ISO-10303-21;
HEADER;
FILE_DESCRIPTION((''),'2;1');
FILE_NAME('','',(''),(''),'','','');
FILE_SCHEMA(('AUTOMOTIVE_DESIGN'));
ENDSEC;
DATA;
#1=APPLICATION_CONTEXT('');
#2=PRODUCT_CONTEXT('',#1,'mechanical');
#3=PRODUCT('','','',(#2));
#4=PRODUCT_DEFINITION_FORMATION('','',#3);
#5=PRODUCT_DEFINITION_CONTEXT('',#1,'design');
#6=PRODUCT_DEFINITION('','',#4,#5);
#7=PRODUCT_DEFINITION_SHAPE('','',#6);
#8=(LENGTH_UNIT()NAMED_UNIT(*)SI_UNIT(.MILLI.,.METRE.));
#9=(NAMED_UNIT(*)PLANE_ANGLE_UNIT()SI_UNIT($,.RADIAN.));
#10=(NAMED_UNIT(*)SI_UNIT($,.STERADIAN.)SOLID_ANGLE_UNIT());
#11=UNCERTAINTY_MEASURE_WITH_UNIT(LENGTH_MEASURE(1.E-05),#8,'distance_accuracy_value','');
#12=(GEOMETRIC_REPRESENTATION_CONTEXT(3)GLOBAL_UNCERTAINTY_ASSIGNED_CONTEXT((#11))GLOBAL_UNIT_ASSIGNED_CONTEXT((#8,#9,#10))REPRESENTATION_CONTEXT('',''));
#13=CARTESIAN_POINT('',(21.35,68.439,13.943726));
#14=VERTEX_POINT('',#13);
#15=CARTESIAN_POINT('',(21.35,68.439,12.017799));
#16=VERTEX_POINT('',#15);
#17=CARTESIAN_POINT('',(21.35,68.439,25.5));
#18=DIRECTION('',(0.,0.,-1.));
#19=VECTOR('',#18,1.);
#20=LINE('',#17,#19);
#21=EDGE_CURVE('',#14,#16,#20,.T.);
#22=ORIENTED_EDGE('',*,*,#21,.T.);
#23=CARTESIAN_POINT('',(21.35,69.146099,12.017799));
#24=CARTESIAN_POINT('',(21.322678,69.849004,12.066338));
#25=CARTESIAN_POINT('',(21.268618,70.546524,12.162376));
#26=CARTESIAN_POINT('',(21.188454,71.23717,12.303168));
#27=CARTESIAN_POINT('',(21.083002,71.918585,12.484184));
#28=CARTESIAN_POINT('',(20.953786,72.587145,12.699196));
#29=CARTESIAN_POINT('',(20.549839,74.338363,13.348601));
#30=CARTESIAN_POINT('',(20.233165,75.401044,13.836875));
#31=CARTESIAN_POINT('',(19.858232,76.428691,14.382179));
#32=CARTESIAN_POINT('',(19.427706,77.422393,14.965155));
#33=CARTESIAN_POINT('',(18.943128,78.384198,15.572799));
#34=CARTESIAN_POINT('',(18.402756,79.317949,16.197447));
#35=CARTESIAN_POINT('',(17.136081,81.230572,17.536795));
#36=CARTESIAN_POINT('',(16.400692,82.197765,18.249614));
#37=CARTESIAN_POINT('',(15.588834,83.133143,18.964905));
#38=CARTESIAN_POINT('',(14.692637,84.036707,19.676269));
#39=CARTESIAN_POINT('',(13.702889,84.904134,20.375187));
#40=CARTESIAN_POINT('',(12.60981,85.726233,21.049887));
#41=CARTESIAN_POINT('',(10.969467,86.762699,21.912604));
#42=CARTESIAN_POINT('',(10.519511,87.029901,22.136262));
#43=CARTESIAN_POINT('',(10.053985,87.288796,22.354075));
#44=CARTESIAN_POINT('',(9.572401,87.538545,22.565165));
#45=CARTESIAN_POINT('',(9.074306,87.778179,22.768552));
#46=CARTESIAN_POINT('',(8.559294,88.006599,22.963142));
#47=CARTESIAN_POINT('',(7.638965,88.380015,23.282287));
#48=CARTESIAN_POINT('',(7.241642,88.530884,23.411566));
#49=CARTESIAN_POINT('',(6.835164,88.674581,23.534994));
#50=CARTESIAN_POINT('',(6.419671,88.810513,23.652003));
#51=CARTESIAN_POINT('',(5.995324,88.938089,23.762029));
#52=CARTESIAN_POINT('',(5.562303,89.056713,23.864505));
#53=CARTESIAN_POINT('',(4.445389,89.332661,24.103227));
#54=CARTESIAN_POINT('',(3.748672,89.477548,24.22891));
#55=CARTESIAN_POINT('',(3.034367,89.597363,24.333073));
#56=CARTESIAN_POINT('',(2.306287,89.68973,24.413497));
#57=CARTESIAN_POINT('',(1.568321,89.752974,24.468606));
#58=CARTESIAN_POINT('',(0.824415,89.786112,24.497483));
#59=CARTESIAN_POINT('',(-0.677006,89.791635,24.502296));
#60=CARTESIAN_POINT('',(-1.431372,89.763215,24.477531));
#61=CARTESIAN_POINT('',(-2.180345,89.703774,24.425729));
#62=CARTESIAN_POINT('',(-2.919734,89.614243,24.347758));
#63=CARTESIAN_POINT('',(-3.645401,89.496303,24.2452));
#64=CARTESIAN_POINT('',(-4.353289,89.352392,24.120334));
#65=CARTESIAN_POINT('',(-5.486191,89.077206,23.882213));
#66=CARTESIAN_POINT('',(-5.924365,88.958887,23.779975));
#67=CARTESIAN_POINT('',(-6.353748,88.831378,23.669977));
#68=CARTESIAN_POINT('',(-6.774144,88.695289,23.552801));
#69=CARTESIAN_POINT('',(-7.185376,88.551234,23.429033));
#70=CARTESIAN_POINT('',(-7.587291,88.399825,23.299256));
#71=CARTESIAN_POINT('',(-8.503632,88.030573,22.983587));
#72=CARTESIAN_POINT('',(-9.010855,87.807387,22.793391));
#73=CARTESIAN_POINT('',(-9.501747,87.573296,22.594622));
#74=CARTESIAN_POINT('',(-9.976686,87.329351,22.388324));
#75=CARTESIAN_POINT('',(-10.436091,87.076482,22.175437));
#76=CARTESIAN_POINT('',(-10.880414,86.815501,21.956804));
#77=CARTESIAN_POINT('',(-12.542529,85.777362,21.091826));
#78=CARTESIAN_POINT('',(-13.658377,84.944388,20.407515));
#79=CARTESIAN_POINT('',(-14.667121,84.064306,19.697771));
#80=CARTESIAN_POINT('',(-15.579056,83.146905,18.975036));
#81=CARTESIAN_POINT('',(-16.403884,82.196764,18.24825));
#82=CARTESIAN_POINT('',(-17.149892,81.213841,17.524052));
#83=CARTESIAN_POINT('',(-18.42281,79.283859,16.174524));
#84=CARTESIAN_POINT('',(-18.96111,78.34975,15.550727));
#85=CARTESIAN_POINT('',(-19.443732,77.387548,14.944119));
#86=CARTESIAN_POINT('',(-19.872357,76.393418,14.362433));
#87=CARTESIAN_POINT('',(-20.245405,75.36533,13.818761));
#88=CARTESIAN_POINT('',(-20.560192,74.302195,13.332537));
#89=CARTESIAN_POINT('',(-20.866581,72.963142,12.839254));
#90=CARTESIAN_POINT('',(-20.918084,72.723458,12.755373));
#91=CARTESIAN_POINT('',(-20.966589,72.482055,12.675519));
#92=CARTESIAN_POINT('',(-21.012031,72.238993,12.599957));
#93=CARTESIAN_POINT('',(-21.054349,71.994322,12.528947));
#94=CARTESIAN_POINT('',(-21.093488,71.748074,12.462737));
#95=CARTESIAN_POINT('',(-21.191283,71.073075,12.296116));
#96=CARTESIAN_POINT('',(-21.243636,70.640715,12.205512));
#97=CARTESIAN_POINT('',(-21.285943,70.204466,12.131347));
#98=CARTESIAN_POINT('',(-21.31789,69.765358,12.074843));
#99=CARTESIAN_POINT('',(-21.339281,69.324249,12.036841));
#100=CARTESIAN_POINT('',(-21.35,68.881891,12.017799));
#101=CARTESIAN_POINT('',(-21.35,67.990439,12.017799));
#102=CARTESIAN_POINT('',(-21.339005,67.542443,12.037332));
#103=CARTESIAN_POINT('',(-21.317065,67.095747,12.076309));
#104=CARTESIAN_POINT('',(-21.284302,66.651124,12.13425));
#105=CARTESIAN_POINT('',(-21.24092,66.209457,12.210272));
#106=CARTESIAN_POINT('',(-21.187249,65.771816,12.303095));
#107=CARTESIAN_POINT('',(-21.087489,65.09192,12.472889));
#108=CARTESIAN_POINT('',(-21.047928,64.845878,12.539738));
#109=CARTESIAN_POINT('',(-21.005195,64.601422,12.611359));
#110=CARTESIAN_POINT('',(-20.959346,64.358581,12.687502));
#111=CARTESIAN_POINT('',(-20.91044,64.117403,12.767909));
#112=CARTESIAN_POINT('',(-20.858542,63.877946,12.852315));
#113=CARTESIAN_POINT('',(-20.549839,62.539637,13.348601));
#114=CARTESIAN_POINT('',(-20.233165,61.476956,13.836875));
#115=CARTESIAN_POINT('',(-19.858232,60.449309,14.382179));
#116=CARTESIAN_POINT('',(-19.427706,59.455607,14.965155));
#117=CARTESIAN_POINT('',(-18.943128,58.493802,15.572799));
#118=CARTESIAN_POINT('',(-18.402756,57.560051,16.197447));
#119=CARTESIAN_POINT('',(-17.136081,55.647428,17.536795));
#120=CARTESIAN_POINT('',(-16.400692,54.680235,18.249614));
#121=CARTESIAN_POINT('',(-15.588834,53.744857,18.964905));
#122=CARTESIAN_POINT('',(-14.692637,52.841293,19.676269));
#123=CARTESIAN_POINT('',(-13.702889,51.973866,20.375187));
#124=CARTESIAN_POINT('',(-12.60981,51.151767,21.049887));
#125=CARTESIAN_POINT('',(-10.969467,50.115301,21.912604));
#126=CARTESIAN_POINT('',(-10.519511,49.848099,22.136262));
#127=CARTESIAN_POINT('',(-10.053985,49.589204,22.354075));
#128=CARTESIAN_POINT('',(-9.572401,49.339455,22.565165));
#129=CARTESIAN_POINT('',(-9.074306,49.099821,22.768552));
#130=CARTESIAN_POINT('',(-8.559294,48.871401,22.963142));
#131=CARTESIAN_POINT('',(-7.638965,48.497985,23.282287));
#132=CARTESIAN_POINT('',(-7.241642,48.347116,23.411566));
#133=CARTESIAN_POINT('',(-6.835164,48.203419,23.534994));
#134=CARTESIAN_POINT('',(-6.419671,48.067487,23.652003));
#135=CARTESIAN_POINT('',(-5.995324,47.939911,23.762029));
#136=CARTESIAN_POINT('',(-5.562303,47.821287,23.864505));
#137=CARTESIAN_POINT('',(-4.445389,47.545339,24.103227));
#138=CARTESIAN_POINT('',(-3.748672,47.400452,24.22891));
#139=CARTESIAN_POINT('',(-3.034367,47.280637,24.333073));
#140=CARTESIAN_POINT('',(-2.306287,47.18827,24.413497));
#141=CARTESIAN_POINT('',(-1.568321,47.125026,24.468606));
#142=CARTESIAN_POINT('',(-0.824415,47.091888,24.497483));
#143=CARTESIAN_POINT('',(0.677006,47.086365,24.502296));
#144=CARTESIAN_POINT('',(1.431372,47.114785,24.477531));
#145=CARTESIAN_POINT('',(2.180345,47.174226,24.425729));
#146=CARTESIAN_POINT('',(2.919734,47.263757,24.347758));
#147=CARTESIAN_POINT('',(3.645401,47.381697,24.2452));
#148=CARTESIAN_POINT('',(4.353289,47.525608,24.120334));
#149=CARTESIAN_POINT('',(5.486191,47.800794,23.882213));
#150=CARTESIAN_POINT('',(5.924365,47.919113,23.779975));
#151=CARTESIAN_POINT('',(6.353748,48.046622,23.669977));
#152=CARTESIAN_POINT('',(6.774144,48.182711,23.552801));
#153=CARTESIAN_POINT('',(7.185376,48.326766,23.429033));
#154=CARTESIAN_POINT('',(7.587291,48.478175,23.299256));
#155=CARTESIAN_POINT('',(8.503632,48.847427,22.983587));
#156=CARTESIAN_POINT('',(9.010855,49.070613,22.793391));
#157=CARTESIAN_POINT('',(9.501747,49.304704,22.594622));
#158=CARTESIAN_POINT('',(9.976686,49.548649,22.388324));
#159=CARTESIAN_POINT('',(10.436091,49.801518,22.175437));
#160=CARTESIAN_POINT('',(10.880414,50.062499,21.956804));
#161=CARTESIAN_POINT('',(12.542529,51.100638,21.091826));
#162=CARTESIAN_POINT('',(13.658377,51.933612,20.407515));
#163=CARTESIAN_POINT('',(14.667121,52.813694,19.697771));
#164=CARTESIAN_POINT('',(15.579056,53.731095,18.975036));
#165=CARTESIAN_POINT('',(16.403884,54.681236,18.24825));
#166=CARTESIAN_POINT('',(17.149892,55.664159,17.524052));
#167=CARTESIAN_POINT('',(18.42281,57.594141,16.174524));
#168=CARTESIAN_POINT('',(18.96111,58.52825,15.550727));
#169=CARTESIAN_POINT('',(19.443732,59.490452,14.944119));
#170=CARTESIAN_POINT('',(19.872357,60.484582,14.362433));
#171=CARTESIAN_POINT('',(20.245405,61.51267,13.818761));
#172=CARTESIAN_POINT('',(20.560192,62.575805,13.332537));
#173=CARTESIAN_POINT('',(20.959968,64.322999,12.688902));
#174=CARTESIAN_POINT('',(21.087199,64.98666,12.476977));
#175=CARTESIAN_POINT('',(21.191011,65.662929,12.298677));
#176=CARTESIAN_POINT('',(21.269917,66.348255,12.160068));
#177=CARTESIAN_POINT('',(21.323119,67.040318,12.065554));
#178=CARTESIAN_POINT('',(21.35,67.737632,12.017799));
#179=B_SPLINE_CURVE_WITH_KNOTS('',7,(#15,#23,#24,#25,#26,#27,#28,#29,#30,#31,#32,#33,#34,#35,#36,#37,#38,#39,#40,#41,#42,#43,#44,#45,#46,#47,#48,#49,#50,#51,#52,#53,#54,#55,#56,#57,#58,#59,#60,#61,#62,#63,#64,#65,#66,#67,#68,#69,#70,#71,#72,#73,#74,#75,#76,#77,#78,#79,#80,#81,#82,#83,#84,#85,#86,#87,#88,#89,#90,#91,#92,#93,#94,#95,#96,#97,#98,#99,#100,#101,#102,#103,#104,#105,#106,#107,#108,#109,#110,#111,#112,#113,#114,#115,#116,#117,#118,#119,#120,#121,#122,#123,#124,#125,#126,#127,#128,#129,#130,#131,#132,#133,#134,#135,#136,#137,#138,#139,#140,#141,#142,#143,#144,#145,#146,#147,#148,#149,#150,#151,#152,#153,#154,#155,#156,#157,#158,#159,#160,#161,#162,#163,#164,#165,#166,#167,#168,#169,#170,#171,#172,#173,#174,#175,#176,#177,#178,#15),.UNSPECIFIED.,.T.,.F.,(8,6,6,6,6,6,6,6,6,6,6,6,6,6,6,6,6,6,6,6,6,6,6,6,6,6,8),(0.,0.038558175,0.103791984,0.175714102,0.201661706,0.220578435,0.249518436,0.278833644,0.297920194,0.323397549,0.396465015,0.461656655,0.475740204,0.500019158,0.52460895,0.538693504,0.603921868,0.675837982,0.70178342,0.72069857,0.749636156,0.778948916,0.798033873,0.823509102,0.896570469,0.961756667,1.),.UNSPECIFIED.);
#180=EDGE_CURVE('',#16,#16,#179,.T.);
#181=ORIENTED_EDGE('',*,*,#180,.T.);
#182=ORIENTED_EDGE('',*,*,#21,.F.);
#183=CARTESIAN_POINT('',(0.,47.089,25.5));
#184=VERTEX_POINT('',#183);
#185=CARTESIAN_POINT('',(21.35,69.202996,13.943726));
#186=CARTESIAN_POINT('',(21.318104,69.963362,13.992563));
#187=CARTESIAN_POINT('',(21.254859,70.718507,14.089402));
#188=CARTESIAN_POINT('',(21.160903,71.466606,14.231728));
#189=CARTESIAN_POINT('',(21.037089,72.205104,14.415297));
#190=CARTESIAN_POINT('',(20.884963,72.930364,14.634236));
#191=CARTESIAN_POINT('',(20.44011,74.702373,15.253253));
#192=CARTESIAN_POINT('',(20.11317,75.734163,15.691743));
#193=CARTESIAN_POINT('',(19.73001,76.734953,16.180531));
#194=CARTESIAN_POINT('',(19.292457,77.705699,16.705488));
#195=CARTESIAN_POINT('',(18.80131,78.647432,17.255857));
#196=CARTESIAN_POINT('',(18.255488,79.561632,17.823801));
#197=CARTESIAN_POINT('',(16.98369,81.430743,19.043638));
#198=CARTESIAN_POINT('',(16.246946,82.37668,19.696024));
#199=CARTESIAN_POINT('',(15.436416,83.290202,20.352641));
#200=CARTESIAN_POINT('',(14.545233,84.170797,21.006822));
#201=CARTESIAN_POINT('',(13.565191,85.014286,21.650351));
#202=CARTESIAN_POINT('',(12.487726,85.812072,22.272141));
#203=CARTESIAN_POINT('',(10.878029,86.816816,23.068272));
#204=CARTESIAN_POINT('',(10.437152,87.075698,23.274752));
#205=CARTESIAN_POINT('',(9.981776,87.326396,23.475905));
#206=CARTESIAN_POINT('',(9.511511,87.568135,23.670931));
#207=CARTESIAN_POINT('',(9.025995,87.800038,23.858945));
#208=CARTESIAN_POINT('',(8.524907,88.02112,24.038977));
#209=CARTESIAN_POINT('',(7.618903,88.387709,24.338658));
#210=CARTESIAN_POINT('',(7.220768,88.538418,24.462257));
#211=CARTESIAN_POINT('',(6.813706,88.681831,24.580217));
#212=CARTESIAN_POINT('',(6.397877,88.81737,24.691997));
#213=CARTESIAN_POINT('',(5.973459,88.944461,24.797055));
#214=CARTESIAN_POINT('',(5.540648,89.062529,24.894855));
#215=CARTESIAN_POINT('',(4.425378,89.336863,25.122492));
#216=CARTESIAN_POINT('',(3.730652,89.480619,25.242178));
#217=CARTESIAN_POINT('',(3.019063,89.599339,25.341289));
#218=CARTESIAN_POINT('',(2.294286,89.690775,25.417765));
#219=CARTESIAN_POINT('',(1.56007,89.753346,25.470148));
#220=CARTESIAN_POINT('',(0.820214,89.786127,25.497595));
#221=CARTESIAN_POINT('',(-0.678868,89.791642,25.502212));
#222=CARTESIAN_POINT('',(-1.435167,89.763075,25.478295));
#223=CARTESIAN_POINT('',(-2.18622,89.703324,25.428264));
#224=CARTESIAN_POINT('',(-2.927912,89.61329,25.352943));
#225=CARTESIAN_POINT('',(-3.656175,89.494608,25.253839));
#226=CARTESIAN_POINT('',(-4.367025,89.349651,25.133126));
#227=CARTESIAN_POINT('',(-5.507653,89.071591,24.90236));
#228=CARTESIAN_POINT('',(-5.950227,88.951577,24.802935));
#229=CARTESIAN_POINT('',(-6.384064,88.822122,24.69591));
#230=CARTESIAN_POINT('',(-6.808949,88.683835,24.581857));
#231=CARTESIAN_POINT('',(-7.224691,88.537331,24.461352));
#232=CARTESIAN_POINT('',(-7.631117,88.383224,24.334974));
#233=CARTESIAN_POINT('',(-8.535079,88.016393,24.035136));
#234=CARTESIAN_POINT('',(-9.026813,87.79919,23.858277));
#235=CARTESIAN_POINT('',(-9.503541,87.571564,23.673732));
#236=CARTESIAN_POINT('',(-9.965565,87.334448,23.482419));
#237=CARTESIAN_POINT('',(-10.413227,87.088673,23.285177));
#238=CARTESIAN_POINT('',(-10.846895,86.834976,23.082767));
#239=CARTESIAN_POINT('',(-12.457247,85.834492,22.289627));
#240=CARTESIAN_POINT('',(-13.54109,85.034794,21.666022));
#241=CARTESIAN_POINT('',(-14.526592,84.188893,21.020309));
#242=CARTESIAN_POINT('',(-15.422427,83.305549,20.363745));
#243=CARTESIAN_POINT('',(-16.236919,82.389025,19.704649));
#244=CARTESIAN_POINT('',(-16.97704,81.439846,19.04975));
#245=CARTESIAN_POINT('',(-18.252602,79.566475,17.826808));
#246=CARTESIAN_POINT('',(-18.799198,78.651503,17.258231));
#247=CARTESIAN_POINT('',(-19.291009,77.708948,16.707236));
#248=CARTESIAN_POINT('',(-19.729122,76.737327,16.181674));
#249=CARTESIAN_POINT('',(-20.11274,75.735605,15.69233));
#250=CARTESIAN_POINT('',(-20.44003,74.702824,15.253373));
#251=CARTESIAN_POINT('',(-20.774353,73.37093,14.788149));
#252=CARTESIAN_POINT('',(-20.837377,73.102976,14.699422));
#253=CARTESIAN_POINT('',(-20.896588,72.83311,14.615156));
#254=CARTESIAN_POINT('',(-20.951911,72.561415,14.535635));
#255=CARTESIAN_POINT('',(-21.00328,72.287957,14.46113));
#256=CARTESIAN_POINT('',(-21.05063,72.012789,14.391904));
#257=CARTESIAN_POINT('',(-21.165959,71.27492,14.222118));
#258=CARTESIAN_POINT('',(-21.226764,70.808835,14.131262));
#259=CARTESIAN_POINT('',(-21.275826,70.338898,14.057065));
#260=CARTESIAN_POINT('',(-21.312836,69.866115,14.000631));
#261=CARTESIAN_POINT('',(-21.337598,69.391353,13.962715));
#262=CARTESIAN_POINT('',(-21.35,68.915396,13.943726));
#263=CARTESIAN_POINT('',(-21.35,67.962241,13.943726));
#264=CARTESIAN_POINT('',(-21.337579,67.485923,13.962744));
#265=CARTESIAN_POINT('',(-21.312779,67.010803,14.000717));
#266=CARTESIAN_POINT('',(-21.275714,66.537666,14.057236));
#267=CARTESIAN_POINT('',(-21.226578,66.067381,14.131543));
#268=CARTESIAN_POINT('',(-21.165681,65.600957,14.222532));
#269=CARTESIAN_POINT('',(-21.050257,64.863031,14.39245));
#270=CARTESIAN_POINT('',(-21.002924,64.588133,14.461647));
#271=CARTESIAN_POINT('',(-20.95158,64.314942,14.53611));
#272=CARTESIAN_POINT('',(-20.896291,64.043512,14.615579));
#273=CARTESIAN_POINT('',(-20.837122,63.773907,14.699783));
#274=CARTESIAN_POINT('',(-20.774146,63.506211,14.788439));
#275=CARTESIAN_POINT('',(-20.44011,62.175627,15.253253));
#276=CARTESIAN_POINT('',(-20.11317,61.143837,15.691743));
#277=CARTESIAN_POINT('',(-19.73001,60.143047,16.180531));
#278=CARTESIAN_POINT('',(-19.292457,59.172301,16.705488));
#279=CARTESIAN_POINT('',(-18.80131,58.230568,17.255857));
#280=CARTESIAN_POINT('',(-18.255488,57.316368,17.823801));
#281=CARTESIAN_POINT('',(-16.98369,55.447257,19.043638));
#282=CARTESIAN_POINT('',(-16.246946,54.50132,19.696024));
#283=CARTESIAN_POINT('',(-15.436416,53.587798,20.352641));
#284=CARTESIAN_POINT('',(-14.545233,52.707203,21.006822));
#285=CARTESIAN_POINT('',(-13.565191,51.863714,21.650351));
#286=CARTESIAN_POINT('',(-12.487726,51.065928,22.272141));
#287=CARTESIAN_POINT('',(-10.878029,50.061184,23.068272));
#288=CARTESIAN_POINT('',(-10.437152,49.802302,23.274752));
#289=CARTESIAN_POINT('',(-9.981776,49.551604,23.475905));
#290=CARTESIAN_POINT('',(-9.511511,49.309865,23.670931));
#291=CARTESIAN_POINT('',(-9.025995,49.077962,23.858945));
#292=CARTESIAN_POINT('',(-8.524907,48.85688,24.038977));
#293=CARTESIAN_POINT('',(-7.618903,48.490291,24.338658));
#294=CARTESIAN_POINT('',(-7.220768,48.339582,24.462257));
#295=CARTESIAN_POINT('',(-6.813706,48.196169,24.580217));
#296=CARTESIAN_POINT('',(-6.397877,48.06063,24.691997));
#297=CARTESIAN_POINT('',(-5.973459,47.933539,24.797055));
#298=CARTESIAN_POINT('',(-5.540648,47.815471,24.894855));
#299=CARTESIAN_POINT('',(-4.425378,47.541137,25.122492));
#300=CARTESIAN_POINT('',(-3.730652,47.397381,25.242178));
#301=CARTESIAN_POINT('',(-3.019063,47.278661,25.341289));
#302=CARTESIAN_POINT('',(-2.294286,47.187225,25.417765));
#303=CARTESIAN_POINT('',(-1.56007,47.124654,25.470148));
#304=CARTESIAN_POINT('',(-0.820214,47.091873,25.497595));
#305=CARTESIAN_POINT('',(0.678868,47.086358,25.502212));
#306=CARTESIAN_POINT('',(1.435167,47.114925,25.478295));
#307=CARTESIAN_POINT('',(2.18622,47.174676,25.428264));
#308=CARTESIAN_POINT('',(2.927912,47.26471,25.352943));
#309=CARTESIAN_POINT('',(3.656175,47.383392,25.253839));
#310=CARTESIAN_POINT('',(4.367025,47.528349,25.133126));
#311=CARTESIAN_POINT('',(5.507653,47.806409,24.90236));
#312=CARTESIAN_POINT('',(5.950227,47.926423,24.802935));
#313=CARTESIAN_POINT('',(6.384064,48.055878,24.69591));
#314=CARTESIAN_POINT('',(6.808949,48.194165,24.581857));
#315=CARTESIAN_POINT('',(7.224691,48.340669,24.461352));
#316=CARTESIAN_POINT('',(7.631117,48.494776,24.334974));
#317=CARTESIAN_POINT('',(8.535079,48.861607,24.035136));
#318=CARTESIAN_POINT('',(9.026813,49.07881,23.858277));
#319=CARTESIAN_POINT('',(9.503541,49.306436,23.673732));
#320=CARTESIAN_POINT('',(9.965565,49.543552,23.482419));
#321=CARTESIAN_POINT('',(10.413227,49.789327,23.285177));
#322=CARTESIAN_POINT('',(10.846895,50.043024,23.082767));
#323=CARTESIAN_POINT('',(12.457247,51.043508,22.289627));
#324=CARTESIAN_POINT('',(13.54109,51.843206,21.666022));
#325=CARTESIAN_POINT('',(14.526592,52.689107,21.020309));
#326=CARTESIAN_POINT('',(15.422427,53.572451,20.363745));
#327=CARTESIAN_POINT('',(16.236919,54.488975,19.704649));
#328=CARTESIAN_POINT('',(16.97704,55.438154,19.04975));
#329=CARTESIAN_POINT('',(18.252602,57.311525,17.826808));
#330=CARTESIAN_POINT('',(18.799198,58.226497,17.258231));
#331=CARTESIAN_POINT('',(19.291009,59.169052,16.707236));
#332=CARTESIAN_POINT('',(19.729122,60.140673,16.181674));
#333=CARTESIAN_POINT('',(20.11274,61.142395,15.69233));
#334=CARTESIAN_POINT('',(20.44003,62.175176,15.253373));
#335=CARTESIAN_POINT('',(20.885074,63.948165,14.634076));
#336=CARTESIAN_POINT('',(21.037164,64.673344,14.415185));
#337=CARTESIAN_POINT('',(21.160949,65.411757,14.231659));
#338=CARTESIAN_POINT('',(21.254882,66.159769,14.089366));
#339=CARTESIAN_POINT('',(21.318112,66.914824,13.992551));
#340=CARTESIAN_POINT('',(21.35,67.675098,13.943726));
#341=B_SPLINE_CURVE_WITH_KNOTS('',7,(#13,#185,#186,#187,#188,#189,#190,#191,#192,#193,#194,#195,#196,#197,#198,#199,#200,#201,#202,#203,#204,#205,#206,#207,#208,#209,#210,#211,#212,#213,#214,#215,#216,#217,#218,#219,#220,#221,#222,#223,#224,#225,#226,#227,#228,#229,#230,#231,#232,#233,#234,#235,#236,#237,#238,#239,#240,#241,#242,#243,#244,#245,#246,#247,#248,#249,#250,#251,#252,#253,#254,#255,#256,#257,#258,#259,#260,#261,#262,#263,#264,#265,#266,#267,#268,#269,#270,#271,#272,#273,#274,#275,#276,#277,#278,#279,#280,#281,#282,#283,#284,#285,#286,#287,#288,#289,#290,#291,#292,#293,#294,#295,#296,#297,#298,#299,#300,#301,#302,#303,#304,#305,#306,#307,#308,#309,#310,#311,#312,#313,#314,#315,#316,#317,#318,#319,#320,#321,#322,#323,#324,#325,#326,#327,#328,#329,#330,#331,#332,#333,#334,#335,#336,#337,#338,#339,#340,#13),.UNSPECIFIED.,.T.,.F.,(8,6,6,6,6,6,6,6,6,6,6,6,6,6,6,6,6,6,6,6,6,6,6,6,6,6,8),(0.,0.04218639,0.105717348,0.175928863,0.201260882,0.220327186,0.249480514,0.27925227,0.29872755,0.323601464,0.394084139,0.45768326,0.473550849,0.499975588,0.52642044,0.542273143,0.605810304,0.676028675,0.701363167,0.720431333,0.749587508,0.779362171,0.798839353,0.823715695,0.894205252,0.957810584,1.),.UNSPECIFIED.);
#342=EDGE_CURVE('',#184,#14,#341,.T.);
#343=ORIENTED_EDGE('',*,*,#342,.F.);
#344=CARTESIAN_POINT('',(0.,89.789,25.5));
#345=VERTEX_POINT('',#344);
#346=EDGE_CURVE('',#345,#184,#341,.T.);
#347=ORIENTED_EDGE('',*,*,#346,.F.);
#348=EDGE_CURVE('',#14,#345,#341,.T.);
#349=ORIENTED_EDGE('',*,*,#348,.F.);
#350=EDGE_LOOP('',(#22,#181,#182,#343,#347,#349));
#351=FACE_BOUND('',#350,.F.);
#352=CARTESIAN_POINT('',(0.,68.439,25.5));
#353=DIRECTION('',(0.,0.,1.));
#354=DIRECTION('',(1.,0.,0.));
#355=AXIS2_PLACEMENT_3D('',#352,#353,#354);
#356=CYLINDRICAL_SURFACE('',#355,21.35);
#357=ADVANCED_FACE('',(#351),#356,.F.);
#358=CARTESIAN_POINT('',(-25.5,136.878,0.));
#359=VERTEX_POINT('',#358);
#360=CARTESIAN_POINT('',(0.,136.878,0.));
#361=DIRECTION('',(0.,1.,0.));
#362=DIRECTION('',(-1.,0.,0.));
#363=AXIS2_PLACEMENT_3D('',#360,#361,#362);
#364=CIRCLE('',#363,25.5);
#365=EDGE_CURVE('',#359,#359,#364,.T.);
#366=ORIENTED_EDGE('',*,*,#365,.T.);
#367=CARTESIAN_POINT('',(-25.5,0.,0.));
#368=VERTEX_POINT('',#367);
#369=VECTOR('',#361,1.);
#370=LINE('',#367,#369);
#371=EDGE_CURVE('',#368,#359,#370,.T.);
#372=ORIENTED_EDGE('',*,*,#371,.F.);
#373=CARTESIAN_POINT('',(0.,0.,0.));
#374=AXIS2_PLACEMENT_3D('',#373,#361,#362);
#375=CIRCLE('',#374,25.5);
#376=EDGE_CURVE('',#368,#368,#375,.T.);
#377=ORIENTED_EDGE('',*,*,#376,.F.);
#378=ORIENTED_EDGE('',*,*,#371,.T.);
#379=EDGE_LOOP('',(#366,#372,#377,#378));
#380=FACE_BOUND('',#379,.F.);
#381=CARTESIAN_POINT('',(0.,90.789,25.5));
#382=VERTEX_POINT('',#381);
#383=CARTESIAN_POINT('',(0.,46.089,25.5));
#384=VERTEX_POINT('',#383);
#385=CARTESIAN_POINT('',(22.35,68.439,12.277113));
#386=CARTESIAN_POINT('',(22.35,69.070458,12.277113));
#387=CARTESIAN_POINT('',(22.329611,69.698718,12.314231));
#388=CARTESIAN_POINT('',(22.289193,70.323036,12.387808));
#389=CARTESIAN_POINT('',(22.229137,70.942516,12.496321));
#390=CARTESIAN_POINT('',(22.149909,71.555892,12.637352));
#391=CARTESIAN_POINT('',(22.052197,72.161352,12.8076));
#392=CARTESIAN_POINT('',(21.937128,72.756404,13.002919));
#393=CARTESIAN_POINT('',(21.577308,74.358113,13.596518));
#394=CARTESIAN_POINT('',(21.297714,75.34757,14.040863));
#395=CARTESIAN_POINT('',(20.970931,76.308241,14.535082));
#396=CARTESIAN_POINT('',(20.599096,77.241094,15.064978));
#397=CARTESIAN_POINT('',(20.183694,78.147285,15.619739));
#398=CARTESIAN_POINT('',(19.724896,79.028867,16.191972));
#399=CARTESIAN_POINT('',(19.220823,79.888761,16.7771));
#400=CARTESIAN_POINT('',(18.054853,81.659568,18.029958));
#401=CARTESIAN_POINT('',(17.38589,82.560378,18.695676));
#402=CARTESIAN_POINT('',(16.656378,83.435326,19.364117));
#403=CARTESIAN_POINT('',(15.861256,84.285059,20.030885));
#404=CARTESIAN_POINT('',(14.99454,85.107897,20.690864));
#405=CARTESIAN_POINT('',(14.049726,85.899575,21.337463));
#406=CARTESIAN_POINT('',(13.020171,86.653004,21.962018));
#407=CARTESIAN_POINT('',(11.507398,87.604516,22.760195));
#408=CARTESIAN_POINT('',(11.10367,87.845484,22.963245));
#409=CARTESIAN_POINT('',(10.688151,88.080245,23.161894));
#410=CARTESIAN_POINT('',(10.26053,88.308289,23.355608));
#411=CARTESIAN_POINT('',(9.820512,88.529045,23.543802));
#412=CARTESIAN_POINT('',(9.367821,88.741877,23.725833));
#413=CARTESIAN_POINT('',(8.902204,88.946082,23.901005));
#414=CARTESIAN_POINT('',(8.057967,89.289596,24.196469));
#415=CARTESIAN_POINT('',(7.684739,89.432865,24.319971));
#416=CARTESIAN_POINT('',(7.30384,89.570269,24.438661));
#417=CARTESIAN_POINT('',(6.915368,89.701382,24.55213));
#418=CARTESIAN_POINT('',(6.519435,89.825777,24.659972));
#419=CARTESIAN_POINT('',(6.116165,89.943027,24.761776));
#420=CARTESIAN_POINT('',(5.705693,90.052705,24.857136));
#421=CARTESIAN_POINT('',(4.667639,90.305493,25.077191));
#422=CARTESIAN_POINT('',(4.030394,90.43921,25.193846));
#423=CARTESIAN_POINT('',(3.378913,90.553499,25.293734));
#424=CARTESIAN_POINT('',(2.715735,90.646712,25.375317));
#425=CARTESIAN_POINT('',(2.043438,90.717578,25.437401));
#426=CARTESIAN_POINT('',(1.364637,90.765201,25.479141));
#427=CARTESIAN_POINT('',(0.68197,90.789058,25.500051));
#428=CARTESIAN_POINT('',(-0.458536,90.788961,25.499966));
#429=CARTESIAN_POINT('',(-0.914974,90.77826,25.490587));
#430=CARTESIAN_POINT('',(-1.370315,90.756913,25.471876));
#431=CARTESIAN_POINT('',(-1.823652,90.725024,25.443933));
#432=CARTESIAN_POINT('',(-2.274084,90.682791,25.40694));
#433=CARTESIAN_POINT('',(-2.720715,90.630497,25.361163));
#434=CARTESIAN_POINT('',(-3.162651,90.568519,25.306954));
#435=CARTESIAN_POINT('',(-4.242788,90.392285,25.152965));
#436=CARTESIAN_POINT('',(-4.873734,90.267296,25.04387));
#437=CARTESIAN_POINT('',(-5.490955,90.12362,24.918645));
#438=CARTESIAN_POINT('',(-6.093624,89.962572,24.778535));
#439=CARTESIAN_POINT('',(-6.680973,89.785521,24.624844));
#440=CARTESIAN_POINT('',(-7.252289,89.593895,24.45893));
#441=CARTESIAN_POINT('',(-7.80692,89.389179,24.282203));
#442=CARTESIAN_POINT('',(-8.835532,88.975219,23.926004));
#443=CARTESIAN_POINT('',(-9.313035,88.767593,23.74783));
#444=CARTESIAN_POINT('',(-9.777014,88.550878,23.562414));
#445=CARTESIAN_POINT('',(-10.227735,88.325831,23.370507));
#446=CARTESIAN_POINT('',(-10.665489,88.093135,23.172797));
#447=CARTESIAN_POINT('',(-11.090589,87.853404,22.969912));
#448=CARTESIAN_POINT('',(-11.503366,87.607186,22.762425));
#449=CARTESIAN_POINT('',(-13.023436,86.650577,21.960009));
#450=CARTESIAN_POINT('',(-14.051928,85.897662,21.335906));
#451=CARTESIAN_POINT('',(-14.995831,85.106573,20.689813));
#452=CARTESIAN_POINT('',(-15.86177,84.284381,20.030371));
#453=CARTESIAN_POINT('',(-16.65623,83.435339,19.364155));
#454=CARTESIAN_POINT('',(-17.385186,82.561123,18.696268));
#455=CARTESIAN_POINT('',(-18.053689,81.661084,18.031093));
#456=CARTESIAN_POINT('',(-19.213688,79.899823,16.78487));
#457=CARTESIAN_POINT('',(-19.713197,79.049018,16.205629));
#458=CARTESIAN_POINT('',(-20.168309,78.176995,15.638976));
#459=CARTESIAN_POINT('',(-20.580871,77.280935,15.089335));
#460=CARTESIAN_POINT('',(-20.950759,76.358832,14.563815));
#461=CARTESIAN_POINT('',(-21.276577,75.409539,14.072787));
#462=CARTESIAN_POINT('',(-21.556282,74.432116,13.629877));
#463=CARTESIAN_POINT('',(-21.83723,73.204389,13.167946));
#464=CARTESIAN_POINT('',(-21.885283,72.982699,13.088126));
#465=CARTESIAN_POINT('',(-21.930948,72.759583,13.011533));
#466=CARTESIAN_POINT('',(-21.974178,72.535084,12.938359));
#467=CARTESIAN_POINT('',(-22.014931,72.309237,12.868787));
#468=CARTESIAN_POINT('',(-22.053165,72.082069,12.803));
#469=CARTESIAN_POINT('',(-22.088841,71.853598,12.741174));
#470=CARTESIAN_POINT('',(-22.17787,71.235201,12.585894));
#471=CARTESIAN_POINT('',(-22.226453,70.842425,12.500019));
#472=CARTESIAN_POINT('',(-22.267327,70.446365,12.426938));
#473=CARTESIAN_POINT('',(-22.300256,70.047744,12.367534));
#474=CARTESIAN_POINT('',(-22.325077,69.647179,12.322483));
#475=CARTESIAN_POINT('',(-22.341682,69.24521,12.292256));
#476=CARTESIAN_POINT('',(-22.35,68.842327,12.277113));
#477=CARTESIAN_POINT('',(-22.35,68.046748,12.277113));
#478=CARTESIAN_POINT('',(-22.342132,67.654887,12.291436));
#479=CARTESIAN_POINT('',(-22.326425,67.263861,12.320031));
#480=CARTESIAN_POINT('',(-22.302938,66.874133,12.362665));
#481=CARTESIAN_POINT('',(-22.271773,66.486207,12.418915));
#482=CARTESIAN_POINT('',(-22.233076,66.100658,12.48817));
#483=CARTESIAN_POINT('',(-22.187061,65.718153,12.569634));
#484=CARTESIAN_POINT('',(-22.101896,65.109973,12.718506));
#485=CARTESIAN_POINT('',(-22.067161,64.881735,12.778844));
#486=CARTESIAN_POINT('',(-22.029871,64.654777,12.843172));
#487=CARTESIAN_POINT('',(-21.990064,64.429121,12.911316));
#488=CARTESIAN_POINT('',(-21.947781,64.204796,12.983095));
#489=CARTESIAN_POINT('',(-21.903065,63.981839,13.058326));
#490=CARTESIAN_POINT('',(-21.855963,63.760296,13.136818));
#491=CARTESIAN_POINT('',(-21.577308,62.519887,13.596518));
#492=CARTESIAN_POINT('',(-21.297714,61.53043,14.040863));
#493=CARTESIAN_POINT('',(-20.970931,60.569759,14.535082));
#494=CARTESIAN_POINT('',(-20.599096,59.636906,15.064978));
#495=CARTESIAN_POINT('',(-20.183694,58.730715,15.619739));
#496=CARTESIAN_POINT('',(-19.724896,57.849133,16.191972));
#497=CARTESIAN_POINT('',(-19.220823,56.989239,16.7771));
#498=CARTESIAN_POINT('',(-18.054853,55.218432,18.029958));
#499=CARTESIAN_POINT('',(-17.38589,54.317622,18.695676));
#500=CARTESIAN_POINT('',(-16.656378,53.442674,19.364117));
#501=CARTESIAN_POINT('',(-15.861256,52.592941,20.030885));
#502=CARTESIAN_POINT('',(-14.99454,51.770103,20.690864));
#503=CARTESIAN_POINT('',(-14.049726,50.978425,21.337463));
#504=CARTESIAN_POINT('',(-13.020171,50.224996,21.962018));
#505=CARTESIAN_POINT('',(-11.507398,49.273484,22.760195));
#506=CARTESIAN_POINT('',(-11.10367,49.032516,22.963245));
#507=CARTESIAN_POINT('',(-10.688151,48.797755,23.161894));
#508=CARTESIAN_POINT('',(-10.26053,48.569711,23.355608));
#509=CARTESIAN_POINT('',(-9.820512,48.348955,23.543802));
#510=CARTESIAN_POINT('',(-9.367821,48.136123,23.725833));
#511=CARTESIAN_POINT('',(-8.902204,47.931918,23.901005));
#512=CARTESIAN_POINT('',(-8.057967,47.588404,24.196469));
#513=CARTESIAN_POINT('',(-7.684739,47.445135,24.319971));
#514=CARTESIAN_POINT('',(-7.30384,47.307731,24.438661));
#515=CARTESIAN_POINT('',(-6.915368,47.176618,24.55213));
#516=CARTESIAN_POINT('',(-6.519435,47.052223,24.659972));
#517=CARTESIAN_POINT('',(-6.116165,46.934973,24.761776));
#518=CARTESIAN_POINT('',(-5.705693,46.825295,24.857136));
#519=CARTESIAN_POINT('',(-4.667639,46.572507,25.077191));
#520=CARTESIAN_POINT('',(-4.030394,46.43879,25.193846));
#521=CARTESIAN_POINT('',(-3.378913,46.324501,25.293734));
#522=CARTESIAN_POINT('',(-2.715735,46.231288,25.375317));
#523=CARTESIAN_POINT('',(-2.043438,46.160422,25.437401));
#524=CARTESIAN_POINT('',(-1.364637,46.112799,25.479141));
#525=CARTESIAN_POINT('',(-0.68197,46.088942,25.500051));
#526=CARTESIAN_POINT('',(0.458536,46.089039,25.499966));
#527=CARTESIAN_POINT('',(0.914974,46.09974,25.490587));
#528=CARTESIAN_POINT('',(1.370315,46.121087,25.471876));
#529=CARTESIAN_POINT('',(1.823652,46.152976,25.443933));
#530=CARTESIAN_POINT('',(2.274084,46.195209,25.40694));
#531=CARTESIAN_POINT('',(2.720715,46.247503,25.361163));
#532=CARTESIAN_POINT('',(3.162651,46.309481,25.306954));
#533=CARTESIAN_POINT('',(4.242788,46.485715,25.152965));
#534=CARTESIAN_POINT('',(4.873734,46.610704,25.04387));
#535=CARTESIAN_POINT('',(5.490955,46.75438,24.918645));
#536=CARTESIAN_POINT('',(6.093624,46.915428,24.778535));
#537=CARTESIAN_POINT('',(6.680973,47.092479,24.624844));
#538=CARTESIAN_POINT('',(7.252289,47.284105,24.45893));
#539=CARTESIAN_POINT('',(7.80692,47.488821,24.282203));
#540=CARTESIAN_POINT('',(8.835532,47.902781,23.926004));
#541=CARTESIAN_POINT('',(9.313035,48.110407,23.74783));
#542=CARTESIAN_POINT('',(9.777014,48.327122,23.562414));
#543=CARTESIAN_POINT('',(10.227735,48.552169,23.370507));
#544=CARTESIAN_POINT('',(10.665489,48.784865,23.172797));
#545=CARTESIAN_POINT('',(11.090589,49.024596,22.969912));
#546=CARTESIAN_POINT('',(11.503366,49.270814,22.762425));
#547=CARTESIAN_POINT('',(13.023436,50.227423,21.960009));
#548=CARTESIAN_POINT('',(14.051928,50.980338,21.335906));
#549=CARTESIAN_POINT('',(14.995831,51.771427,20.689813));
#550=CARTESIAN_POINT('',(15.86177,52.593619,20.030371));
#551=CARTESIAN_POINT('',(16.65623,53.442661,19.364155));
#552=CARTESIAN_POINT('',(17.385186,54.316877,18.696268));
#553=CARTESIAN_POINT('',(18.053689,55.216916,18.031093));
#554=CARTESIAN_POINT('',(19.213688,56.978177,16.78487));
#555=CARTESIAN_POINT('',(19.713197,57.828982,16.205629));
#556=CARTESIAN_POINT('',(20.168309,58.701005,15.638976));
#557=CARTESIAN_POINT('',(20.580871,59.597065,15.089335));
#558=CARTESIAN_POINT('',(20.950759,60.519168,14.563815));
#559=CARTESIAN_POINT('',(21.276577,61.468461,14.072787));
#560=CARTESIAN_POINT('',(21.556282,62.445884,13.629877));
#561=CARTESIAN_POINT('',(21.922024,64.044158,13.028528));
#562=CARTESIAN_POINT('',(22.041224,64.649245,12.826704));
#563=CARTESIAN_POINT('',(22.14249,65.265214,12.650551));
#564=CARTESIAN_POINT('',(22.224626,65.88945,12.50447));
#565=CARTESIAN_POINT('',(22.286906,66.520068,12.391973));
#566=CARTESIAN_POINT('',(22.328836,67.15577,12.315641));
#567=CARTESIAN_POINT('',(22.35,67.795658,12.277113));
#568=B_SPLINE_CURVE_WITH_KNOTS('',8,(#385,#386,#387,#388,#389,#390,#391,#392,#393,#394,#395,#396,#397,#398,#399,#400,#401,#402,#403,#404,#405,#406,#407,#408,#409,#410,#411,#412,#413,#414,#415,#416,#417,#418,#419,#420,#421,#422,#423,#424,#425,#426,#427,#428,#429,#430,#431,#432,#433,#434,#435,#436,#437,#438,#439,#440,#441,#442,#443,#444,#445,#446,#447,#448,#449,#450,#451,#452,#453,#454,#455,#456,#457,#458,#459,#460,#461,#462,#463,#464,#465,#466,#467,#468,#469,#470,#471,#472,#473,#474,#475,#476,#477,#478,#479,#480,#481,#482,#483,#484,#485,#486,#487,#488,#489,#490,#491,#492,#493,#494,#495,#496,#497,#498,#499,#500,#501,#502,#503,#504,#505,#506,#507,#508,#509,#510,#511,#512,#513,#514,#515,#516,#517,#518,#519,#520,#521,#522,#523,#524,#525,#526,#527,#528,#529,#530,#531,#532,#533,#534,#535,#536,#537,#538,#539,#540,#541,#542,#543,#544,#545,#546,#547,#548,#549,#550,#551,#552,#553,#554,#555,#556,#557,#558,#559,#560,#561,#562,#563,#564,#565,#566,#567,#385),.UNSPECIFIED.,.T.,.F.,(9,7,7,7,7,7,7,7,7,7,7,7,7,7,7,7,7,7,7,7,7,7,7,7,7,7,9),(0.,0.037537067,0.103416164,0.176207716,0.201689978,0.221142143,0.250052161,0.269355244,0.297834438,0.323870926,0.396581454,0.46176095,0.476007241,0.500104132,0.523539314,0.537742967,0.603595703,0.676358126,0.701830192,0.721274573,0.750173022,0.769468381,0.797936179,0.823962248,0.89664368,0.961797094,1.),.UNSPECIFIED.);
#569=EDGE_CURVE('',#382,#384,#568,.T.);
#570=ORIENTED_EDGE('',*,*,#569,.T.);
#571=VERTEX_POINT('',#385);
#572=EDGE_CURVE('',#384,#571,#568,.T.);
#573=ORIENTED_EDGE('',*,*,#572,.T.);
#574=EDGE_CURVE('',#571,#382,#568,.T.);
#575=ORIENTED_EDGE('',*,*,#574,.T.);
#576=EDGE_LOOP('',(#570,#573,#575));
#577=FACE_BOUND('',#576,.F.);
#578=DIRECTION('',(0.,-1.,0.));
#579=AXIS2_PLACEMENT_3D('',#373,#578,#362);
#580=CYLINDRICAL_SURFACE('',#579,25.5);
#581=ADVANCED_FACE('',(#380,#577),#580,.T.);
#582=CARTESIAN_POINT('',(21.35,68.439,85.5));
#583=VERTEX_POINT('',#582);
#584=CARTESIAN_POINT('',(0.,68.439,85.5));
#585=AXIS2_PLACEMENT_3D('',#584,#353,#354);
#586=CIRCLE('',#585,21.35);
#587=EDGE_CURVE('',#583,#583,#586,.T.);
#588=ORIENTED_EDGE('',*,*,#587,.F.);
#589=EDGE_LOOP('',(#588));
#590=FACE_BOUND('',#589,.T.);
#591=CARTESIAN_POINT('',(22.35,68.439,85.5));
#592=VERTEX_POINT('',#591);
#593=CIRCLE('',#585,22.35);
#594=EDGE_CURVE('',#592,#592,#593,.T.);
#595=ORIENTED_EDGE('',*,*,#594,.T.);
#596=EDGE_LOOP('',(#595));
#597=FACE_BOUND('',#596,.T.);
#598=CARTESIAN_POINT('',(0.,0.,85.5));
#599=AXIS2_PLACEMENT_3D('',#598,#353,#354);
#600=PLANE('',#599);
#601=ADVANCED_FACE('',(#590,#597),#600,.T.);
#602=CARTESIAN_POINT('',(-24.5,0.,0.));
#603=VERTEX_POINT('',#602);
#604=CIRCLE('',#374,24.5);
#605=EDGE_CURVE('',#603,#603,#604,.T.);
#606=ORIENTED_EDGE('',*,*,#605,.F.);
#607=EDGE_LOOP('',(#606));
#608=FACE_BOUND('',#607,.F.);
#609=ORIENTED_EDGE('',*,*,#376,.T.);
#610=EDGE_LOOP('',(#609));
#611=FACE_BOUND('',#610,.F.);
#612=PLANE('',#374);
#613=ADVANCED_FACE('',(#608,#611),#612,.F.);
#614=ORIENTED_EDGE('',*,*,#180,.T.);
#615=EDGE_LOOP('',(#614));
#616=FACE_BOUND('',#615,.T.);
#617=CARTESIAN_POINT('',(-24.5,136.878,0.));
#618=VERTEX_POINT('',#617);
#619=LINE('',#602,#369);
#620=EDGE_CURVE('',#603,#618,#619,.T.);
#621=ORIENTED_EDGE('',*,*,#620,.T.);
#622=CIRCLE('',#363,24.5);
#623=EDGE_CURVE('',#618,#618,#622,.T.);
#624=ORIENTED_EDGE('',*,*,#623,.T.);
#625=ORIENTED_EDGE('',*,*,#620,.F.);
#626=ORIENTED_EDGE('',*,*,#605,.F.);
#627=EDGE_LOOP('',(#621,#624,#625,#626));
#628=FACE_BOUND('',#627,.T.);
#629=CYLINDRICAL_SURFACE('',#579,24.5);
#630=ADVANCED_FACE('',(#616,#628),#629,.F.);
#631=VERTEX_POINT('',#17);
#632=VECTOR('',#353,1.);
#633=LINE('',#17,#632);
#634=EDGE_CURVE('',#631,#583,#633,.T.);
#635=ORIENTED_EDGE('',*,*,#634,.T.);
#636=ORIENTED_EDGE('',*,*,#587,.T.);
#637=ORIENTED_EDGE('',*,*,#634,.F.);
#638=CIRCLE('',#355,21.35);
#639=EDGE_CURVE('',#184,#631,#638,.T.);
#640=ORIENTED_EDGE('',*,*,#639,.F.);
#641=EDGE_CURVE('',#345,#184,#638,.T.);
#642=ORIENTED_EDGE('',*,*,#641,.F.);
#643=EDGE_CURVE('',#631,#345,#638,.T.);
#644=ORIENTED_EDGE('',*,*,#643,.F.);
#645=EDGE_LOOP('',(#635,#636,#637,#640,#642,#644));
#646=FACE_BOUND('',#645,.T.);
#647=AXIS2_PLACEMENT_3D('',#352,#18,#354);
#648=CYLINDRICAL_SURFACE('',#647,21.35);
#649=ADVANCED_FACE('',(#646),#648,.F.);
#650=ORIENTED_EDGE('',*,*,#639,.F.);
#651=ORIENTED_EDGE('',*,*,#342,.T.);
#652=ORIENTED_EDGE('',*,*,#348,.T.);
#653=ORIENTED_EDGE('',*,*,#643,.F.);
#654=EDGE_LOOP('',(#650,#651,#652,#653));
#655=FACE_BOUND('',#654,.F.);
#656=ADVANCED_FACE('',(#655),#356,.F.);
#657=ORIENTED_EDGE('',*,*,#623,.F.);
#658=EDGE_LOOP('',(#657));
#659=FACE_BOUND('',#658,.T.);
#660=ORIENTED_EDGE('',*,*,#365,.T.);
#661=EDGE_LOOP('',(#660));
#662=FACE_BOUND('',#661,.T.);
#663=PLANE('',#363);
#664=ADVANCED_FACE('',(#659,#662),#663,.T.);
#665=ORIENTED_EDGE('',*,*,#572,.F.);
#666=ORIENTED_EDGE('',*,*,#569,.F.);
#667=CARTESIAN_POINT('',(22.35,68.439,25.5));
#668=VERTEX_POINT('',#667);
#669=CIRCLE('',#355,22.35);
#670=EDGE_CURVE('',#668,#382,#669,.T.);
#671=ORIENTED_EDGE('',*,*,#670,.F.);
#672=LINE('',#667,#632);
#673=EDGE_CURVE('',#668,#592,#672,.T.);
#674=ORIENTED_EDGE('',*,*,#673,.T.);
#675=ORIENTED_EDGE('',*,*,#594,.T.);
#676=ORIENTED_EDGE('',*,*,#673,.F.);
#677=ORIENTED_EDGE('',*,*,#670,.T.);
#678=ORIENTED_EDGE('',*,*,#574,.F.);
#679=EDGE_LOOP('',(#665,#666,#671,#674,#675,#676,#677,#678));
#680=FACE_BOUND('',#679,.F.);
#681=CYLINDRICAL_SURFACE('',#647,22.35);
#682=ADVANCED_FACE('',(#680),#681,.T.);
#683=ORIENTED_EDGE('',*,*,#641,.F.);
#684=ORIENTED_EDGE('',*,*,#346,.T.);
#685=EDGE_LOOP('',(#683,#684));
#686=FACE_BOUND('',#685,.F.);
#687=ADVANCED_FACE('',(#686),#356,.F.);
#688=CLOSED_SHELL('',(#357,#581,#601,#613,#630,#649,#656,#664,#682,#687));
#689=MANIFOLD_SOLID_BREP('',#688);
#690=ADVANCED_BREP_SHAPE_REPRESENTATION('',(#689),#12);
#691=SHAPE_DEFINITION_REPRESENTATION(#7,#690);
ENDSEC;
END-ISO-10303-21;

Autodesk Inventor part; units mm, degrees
ref_plane "YZ Plane" through (0, 0, 0) normal (1, 0, 0) x (0, 1, 0)
ref_plane "XZ Plane" through (0, 0, 0) normal (0, 1, 0) x (-1, 0, 0)
sketch "Sketch1" plane through (0, 0, 0) normal (0, 1, 0) x (-1, 0, 0)
  circle A0 centre (0, 0) radius 25.5
  circle A1 centre (0, 0) radius 24.5
  dimension "d0" = 51
  dimension "d1" = 49
extrude "Extrusion1" add sketch "Sketch1" along normal blind 136.878
ref_plane "Work Plane1" through (0, 0, 25.5) normal (0, 0, 1) x (1, 0, 0)
sketch "Sketch2" plane through (0, 0, 25.5) normal (0, 0, 1) x (1, 0, 0)
  line L0 (0, 0) -> (28.9243, 0) construction
  line L1 (-25.5, 0) -> (25.5, 0) projected
  circle A0 centre (0, 68.439) radius 21.35
  line L2 (-24.5, 136.878) -> (24.5, 136.878) projected
  dimension "d4" = 42.7
  dimension "d5" = 68.439
  dimension "d18" = 68.439
extrude "Extrusion2" cut sketch "Sketch2" against normal blind 25.4
sketch "Sketch3" plane through (0, 0, 25.5) normal (0, 0, 1) x (1, 0, 0)
  circle A0 centre (0, 68.439) radius 22.35
  line L0 (0, 0) -> (18.5152, 0) construction
  line L1 (24.5, 0) -> (-24.5, 0) projected
  circle A1 centre (0, 68.439) radius 21.35
  dimension "d8" = 68.439
  dimension "d9" = 44.7
  dimension "d10" = 42.7
extrude "Extrusion3" add sketch "Sketch3" along normal blind 60
sketch "Sketch4" plane through (0, 0, 25.5) normal (0, 0, 1) x (1, 0, 0)
  line L0 (0, 0) -> (23.949, 0) construction
  line L1 (24.5, 0) -> (-24.5, 0) projected
  circle A0 centre (0, 68.439) radius 22.35
  circle A1 centre (0, 68.439) radius 21.35
  dimension "d13" = 68.439
  dimension "d14" = 44.7
  dimension "d15" = 42.7
extrude "Extrusion4" add sketch "Sketch4" against normal up to next
equation "\"d5\" = d18"
equation "\"d8\" = d5"
equation "\"d10\" = d4"
equation "\"d13\" = d5"
equation "\"d15\" = d4"
properties part number "51mm nipple"
